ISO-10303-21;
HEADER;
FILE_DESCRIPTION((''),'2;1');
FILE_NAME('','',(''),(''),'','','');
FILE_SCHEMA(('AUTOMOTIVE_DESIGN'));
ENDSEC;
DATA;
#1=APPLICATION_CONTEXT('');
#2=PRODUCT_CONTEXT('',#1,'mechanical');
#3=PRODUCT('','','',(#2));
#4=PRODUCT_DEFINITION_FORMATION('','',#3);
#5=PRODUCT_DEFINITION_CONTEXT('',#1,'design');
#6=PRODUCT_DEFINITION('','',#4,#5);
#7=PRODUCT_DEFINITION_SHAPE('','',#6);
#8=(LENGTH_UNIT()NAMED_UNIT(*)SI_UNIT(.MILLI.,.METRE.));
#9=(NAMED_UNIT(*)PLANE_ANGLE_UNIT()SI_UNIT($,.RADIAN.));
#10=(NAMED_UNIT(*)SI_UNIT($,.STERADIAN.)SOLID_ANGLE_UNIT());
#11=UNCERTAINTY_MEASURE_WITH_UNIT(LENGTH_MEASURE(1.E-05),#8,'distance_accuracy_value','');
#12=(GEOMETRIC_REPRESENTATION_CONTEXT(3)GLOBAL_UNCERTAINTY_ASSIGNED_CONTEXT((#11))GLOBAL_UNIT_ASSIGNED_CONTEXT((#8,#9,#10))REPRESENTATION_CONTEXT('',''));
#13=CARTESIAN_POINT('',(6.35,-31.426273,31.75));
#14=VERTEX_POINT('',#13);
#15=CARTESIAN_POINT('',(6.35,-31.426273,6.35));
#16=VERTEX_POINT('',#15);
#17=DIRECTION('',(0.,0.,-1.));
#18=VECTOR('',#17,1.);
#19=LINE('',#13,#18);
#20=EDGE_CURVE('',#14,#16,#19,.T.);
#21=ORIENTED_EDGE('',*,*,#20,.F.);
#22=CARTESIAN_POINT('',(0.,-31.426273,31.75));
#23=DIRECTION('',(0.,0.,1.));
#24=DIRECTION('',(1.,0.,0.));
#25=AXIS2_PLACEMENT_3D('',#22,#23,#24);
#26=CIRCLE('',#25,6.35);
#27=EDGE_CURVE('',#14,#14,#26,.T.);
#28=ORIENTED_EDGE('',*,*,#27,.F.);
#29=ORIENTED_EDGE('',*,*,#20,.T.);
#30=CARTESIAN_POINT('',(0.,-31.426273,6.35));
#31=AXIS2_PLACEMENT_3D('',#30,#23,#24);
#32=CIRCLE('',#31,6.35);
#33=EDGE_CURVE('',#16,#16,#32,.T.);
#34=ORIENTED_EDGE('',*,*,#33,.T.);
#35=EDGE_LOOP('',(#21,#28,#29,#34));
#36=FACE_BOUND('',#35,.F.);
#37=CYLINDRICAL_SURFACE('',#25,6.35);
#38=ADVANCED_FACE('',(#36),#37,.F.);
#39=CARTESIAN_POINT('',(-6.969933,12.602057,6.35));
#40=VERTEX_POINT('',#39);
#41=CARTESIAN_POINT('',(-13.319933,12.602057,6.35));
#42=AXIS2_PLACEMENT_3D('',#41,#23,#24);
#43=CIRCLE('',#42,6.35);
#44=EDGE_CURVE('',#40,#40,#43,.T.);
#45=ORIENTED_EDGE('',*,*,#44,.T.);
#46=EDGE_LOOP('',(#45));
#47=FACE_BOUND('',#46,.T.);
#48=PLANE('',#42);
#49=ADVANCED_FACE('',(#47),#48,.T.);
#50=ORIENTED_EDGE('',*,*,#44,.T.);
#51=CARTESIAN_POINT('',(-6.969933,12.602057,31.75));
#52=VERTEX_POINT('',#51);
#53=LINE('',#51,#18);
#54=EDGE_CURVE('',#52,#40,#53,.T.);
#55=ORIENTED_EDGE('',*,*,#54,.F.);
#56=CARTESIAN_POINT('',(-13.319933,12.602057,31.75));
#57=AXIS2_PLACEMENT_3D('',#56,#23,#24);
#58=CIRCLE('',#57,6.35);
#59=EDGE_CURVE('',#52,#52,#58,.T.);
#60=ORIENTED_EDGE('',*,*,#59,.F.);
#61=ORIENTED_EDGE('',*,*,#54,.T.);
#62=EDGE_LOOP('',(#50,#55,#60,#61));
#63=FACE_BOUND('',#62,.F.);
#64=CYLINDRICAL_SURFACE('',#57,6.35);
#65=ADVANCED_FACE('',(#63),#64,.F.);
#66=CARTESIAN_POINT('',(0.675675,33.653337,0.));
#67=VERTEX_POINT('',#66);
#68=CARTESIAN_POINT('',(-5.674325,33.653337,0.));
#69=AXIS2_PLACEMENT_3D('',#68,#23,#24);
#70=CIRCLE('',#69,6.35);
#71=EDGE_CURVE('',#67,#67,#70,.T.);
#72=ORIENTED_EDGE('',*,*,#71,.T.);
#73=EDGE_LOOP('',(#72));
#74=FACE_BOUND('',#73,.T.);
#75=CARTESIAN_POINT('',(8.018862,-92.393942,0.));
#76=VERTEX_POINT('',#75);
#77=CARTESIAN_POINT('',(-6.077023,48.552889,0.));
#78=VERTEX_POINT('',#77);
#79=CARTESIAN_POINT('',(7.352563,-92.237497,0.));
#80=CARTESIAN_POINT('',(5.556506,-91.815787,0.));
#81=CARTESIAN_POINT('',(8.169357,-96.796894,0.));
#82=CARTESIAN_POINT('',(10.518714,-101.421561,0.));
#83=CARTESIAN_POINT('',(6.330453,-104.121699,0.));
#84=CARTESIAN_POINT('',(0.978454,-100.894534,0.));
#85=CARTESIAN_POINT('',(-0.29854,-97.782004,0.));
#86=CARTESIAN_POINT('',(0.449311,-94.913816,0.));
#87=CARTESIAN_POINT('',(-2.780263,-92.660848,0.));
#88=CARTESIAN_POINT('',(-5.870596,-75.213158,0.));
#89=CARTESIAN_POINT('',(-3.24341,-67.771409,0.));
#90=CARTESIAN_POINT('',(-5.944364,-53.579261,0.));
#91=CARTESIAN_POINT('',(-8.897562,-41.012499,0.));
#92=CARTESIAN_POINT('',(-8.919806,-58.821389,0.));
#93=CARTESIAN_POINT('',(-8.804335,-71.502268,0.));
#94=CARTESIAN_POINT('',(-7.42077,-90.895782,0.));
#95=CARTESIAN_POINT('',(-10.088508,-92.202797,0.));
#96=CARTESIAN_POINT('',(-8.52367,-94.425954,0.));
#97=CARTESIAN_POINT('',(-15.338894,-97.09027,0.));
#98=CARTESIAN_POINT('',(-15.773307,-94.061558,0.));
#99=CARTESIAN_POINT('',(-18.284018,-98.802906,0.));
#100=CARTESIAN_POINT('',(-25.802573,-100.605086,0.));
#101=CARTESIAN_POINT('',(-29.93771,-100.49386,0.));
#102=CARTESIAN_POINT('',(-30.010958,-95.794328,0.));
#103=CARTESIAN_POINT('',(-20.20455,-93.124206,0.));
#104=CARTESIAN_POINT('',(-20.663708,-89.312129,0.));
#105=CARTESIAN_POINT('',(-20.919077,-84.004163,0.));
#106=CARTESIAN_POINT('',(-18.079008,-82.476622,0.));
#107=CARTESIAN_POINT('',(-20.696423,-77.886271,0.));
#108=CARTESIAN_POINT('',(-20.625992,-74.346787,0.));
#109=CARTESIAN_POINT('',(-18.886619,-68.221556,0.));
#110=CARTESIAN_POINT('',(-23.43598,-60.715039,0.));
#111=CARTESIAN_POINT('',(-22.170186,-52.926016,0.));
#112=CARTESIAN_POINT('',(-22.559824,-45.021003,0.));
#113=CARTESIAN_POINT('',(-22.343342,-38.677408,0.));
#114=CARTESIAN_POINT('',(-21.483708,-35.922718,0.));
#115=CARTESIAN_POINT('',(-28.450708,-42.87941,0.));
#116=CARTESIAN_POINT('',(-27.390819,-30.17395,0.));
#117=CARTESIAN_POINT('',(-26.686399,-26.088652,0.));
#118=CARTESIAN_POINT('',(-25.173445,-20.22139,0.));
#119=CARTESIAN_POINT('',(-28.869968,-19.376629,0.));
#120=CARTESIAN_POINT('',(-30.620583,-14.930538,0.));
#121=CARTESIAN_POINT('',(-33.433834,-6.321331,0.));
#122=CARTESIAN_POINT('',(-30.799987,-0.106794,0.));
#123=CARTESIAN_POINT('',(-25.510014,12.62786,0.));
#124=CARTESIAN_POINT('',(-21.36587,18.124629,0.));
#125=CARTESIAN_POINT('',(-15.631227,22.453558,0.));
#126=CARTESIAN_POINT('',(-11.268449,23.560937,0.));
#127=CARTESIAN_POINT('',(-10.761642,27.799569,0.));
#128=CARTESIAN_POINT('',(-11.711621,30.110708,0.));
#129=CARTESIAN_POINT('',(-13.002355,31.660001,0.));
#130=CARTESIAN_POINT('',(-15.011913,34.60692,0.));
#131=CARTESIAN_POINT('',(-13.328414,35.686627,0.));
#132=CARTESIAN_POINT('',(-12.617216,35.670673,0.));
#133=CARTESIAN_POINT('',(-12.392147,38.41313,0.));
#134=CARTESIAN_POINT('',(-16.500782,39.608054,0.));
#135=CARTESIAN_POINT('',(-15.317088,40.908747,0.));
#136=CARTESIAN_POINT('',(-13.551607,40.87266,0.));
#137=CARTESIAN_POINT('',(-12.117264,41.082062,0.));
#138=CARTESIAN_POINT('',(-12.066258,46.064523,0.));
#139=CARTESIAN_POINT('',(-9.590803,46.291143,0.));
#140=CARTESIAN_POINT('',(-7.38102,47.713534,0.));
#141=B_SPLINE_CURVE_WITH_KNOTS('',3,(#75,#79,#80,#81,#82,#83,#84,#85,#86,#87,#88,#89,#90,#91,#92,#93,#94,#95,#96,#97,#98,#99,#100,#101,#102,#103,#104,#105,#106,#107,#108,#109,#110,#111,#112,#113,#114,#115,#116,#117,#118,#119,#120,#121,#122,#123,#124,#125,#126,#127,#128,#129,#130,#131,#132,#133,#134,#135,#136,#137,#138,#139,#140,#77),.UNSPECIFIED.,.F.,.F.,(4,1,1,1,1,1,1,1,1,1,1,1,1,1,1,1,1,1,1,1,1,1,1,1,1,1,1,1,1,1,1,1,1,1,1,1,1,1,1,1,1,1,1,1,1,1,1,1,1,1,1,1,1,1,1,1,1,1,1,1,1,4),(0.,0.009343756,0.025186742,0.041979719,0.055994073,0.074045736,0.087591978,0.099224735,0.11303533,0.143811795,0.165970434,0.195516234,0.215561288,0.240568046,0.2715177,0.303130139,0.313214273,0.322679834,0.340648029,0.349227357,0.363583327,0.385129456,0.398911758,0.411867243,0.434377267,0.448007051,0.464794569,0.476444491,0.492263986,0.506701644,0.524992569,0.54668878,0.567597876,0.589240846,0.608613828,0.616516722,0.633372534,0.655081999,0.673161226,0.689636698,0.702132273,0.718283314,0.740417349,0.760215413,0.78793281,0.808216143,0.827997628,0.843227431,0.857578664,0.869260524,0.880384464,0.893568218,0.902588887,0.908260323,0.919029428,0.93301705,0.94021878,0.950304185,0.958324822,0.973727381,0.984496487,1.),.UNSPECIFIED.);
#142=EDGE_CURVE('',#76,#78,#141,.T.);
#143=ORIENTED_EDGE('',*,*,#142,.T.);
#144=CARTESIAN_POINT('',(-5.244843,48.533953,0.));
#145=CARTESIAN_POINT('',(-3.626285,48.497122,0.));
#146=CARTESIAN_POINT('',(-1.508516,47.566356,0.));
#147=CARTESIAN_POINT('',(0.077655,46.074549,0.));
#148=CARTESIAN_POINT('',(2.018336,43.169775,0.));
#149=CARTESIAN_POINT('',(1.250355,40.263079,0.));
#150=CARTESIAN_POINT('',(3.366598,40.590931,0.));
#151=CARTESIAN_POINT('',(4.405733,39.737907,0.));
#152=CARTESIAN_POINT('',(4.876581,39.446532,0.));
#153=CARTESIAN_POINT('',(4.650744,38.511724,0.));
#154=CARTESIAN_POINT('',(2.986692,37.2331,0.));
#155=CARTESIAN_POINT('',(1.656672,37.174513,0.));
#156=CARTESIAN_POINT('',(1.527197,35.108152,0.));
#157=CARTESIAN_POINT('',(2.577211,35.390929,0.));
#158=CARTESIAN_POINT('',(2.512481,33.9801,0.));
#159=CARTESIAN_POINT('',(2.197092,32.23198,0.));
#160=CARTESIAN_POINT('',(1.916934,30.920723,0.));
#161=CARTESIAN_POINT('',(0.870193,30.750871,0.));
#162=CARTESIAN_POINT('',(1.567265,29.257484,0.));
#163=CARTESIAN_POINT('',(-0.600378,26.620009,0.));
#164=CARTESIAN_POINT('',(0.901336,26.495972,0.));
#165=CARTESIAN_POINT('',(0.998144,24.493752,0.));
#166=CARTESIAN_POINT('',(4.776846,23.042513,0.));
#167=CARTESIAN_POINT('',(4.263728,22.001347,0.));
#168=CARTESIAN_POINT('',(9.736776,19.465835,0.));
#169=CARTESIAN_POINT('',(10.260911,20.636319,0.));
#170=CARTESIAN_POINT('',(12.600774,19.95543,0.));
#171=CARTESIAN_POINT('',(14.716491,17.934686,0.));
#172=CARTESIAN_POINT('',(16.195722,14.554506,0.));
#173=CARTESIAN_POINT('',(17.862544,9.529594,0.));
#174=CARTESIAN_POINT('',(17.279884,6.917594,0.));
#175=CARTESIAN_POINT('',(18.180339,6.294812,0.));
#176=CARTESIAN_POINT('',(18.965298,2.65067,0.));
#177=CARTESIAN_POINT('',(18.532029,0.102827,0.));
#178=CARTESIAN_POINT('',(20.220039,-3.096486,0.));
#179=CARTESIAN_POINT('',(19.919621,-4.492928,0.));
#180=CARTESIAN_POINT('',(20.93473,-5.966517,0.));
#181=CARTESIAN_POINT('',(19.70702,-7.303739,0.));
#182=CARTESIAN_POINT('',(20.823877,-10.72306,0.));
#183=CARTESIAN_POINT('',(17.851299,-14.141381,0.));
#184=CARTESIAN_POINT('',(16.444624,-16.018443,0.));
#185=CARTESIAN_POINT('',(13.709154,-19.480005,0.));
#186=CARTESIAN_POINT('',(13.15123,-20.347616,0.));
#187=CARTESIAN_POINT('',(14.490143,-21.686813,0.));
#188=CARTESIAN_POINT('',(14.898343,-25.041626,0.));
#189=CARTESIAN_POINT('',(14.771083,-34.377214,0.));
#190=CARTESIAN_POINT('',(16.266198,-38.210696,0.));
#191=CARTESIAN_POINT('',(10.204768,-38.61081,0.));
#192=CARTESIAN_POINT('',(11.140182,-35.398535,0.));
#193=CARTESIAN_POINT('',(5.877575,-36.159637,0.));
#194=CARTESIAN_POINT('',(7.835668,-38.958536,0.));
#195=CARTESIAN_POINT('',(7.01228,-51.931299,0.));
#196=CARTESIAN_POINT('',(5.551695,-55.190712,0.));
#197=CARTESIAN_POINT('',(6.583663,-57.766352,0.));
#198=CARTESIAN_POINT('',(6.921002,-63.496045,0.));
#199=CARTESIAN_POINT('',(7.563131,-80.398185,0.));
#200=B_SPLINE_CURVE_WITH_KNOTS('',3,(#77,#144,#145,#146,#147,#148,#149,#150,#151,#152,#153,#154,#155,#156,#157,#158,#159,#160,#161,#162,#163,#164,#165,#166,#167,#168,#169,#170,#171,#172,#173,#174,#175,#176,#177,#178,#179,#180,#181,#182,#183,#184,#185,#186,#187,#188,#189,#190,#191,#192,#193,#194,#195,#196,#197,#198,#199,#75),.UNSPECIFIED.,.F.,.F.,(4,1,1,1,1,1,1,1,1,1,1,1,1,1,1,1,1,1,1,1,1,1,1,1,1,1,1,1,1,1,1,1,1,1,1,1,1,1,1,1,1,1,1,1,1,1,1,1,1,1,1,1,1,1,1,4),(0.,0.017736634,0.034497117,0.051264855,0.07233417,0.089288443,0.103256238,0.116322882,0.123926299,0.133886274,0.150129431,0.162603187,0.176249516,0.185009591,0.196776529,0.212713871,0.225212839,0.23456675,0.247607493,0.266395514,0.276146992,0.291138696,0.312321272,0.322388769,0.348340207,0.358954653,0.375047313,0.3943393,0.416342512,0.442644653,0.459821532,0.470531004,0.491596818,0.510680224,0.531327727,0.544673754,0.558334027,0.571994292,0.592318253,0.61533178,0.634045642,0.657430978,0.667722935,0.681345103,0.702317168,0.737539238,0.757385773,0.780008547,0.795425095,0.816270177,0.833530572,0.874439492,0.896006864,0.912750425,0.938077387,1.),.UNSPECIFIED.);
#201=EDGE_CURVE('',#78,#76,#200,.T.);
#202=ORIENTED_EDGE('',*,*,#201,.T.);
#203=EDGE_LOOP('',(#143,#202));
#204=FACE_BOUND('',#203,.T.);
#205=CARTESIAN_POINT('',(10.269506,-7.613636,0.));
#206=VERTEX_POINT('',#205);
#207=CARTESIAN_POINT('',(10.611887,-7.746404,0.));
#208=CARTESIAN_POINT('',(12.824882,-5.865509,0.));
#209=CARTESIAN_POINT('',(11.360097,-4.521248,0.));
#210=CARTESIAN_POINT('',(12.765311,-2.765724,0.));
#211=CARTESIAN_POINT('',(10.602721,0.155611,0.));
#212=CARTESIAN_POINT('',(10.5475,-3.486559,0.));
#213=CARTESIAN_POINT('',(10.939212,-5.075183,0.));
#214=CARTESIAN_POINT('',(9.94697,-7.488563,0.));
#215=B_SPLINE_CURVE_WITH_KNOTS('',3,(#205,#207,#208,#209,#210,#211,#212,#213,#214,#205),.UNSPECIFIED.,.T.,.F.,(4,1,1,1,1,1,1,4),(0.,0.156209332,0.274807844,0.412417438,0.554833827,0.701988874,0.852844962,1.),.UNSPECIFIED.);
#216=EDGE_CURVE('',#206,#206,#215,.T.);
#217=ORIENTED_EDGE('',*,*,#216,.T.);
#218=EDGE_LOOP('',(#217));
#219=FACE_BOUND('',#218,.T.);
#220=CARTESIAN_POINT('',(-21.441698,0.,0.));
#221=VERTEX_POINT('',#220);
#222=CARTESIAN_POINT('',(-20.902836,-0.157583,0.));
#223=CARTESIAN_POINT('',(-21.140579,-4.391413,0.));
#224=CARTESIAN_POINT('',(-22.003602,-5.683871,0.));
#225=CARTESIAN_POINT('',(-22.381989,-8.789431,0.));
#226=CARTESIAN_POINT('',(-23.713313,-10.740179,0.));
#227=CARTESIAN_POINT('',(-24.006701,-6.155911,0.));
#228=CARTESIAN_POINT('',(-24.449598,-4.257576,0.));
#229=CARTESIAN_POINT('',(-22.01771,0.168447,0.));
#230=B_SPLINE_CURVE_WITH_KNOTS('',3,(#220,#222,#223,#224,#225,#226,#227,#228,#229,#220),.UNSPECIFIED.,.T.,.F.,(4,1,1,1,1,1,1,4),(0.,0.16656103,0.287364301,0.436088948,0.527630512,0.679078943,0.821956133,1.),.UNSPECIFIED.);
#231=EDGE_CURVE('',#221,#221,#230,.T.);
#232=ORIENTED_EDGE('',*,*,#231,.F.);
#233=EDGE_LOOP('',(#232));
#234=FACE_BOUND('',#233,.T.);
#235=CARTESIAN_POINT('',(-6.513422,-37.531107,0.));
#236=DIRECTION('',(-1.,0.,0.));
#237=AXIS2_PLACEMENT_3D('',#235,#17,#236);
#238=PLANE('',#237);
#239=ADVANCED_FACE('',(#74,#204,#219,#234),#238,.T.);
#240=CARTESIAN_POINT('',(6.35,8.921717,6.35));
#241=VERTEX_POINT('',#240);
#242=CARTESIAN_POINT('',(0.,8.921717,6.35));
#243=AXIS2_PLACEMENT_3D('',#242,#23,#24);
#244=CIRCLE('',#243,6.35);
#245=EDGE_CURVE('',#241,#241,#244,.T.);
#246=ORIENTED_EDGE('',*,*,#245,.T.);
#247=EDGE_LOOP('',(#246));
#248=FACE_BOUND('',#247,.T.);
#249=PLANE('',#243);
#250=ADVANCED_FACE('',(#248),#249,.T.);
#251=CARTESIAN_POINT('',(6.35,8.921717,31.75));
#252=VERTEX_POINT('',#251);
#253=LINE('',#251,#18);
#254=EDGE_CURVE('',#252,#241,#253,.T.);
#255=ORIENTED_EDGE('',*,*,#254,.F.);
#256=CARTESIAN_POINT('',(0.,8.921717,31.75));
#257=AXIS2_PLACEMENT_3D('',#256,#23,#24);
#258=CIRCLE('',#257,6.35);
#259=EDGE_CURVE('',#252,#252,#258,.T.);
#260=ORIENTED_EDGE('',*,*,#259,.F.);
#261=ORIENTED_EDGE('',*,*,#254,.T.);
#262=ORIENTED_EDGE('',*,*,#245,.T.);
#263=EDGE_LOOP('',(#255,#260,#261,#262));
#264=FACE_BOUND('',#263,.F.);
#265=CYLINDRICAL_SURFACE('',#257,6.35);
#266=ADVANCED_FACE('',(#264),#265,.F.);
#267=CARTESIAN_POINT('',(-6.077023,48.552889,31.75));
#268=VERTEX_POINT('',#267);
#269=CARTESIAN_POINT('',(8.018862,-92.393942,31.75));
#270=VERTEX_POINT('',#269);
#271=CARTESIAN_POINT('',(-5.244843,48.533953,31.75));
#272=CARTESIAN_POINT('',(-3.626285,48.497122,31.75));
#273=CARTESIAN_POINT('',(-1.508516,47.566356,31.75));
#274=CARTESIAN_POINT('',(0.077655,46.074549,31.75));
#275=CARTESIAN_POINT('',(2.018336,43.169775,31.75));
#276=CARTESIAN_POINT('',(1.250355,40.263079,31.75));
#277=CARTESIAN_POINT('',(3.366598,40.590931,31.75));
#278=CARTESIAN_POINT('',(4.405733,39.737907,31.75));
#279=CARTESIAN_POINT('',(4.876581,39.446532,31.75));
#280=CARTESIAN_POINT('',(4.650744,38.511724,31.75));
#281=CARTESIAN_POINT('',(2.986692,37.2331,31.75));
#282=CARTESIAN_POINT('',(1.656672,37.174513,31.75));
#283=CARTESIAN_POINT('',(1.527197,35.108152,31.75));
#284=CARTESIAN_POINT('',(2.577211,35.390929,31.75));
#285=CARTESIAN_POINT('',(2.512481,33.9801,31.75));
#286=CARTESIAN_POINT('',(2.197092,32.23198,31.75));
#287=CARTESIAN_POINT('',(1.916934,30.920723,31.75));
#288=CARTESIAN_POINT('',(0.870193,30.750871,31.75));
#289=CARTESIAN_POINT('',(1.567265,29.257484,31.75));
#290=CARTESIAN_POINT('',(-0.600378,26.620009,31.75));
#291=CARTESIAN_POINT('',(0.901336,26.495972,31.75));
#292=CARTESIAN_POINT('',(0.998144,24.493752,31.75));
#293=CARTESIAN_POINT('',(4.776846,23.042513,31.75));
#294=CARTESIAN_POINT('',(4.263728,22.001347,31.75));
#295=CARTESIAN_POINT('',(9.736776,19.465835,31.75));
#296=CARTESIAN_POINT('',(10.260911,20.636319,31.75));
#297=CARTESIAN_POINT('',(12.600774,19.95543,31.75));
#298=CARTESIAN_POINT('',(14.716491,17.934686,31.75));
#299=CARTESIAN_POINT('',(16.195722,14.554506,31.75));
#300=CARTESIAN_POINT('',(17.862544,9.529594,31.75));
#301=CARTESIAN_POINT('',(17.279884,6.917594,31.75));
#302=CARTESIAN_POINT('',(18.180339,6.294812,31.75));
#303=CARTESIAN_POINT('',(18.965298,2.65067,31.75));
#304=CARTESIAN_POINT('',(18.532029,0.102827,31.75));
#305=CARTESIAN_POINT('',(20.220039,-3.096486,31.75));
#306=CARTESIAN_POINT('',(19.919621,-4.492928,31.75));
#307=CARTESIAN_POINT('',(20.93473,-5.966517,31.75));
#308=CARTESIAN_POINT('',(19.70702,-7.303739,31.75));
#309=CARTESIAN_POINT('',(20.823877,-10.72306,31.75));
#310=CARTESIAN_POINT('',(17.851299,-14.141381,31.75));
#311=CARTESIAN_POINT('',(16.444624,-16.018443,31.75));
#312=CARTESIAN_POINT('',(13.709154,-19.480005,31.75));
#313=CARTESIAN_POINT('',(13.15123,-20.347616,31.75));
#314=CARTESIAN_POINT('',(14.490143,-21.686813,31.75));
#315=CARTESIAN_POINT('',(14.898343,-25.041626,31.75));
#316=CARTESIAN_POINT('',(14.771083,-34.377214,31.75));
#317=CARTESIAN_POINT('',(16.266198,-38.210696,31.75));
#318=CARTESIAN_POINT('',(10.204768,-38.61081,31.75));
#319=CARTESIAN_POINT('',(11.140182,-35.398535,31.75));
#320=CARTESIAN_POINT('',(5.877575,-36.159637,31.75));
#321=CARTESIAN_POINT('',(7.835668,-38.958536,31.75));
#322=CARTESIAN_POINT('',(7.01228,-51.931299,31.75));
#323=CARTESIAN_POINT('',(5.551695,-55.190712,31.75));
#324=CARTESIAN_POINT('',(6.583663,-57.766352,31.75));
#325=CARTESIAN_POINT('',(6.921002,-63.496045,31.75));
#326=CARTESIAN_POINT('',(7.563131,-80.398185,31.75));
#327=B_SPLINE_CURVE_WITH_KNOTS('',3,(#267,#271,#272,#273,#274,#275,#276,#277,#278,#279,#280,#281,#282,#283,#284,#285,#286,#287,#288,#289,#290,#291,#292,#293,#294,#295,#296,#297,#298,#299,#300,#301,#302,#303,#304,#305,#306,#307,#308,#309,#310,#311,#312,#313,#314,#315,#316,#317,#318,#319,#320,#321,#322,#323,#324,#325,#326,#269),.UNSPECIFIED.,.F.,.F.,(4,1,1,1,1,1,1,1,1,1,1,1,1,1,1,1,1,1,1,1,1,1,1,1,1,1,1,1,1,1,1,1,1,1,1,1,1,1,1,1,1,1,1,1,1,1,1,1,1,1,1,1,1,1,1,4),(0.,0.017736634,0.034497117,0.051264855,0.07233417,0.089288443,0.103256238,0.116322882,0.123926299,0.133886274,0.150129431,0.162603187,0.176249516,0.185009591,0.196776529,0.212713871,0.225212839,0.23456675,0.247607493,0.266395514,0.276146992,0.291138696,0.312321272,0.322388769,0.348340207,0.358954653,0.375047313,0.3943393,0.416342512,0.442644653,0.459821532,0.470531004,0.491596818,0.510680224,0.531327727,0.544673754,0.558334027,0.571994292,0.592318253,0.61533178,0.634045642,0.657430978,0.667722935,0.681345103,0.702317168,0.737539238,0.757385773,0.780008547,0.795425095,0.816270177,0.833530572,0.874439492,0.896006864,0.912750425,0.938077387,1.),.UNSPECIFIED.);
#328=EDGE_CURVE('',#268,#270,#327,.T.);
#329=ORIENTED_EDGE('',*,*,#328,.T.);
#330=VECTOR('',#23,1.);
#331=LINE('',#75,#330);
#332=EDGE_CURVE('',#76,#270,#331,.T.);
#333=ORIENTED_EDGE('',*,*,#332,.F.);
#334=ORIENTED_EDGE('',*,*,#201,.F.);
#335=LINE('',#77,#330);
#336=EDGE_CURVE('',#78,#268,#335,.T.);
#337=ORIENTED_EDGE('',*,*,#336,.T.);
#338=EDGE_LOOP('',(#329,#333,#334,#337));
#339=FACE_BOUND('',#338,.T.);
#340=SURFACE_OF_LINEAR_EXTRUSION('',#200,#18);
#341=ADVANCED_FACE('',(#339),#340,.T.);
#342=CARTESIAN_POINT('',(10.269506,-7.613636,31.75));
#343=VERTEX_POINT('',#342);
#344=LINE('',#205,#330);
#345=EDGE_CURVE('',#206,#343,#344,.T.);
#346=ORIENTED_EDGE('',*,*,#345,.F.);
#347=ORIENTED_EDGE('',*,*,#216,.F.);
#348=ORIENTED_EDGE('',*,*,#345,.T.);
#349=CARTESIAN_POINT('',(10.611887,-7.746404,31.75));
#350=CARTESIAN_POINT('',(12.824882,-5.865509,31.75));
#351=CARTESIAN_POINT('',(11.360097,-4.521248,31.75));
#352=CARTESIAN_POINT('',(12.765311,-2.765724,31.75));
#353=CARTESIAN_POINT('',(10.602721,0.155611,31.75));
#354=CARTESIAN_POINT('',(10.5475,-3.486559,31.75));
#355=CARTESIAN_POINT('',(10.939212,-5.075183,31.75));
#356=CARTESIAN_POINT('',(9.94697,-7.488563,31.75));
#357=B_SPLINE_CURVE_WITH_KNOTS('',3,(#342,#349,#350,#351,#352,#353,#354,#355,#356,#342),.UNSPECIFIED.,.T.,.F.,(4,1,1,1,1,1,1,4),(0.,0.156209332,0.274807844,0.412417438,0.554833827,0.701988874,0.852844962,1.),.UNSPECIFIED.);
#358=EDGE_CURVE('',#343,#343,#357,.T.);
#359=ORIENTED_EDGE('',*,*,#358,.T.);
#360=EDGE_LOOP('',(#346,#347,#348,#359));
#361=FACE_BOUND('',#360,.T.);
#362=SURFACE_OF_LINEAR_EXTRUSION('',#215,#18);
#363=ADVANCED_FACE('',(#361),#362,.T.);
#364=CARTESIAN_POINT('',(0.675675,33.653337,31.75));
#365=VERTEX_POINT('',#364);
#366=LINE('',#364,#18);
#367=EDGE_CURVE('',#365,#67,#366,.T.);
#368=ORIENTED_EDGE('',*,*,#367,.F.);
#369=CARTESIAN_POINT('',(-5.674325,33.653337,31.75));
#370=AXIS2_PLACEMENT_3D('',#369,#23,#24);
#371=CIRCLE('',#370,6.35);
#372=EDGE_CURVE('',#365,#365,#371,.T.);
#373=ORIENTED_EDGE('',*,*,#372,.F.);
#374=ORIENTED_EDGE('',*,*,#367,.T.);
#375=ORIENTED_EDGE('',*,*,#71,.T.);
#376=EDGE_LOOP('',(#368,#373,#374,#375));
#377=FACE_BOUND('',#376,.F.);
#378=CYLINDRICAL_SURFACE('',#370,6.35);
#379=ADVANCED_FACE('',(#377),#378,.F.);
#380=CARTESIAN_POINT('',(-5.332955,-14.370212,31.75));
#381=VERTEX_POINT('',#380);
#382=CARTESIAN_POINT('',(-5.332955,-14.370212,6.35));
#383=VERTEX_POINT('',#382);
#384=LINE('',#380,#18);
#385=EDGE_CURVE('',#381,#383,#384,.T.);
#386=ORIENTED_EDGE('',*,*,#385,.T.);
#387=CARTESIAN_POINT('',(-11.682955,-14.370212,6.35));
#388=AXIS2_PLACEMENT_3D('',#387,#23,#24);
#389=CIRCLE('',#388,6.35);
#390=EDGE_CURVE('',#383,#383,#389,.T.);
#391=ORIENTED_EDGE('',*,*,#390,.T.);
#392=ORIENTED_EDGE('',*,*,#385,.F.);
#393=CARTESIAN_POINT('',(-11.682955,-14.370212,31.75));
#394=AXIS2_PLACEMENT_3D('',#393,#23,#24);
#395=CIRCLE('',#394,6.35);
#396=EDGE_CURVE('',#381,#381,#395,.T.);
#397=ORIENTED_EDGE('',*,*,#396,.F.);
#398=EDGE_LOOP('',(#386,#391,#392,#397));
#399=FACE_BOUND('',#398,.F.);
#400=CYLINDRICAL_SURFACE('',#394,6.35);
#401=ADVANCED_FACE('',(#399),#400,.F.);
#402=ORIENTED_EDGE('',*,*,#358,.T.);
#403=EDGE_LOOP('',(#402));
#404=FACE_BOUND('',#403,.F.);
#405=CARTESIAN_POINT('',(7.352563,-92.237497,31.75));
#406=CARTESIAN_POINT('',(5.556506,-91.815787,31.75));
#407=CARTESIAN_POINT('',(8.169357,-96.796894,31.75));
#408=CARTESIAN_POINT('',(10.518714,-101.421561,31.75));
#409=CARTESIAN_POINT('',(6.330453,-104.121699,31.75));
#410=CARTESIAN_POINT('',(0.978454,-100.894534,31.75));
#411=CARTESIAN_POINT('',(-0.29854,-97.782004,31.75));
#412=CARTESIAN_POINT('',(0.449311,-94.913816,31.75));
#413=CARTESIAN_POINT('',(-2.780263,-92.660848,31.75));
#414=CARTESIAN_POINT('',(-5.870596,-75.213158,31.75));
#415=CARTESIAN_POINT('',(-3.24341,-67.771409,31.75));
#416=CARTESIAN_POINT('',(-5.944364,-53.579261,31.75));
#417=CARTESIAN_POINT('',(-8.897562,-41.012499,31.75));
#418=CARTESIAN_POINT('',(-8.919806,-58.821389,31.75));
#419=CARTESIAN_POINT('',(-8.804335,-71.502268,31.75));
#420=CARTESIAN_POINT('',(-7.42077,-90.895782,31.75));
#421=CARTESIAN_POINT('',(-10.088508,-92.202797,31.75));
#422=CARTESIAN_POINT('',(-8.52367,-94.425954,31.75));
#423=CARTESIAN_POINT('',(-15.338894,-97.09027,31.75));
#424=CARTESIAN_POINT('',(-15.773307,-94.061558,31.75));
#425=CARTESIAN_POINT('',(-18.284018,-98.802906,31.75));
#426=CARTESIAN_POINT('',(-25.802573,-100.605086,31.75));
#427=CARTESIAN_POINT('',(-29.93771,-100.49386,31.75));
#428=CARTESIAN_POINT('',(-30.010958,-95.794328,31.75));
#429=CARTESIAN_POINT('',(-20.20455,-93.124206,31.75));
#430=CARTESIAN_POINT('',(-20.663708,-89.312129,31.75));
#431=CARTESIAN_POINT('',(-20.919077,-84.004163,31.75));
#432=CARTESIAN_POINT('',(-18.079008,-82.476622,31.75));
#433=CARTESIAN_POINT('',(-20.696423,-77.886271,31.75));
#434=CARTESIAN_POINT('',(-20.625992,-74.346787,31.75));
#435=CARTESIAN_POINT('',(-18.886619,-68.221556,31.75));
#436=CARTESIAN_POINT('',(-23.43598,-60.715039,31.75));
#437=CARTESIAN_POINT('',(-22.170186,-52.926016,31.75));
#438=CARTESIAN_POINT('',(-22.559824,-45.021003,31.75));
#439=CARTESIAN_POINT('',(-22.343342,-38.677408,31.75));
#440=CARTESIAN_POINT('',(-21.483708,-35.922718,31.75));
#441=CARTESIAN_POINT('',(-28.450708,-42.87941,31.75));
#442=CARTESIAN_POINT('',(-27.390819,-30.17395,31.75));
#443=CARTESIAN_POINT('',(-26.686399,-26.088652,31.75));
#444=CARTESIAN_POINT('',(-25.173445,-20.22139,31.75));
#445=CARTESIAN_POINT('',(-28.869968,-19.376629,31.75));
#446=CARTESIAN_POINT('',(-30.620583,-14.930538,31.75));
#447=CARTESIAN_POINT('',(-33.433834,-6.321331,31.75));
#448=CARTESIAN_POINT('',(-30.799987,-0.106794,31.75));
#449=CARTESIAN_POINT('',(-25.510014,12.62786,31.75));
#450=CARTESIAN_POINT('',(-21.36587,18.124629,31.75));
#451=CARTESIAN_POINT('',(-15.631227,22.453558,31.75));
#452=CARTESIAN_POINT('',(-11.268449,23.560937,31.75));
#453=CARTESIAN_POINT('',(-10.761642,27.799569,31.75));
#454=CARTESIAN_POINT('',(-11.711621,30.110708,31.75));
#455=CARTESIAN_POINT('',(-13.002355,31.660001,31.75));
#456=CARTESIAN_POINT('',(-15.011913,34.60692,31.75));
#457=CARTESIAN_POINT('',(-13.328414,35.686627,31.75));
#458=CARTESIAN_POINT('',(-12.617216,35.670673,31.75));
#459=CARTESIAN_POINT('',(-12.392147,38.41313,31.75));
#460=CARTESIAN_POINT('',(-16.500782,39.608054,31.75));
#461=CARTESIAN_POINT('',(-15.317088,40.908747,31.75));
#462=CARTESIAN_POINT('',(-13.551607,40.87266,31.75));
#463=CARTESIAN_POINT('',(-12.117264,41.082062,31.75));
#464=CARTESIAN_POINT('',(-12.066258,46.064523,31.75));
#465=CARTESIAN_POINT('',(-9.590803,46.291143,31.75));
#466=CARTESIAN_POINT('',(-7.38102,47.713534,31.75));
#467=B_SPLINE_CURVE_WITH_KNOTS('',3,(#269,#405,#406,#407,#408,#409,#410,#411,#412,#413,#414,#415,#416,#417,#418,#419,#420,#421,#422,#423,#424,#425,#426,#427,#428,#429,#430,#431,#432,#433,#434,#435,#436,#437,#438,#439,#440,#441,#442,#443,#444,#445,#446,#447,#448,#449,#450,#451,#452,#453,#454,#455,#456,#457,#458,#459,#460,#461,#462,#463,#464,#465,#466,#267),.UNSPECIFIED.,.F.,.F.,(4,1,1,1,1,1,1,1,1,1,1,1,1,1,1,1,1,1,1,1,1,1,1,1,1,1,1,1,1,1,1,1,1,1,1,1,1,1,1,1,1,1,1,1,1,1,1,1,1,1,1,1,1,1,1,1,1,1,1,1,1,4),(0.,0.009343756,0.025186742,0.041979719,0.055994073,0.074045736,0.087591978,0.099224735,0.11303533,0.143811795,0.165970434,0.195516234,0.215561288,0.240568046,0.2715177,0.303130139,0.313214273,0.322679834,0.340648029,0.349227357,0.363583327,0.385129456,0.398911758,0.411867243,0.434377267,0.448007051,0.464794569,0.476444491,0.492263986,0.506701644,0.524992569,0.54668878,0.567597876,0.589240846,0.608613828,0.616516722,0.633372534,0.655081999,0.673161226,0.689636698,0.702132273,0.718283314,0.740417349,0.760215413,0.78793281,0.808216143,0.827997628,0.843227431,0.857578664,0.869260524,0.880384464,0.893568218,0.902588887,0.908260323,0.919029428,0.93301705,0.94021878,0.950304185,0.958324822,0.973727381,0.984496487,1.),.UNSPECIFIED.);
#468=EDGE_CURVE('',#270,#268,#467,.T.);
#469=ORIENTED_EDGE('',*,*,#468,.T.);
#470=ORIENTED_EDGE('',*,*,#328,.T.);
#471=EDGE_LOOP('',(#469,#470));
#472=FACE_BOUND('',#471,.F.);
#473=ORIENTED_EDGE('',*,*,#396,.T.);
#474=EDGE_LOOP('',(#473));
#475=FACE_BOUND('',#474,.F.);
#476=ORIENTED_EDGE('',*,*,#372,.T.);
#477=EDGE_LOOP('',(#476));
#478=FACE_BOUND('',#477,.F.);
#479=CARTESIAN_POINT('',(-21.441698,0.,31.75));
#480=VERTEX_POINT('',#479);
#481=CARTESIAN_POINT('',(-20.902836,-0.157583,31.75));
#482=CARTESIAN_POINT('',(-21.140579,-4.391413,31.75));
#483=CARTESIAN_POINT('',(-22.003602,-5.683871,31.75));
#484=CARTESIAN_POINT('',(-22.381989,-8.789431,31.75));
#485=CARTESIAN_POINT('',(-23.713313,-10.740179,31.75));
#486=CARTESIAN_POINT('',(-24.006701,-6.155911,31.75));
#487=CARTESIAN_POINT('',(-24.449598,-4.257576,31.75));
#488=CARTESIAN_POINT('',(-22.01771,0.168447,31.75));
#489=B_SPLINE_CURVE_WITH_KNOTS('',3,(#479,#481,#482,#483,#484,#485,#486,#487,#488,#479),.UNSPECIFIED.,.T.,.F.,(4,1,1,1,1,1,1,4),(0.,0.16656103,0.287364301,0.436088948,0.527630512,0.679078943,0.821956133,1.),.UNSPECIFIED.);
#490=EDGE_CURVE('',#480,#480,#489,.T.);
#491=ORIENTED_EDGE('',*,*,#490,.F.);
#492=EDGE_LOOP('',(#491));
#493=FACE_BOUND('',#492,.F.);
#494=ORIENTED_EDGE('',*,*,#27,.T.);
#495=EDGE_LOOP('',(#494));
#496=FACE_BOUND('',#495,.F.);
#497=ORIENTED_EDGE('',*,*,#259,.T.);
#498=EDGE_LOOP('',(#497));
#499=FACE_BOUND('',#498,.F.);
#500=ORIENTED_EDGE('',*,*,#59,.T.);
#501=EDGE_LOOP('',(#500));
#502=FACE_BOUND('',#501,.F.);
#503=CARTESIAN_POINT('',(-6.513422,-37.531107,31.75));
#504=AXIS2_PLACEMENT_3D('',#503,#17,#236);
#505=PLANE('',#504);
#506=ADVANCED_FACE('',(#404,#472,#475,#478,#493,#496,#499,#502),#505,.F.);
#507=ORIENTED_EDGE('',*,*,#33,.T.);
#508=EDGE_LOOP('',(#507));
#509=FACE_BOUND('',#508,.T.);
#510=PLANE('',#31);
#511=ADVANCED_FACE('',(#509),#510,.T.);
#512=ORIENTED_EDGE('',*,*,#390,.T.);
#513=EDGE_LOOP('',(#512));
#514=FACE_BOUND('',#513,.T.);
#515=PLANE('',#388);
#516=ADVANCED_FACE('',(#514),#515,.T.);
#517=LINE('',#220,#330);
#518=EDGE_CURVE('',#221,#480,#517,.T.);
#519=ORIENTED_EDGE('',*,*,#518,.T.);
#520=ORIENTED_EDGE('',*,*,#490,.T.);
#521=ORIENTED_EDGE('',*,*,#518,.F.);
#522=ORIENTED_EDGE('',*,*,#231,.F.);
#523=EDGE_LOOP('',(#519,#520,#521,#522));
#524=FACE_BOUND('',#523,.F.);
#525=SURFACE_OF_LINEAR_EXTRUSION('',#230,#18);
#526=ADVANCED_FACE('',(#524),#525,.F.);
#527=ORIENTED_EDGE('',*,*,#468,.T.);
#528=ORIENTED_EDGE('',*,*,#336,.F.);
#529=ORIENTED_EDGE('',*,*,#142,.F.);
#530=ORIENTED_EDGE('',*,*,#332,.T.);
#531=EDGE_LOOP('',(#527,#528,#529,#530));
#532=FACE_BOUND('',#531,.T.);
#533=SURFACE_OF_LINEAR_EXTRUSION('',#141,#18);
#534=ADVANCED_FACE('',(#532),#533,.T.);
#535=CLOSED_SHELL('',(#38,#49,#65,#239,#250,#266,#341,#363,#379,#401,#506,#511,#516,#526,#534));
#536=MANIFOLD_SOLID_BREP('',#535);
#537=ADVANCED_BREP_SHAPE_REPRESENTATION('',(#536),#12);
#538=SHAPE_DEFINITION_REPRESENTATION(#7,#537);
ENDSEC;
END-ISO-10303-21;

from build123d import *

# Parameters (mm, degrees)
F1_DEPTH = 31.75
F2_R     = 6.35
F4_DEPTH = 25.4
F3_R     = 6.3434261754
F3_R_2   = 6.35
F5_DEPTH = 50.8


with BuildPart() as f1:
    # F0 (on Top) → F1 (new body)
    with BuildSketch(Plane.XY):
        with BuildLine():
            add(Edge.make_bspline(
                [(-6.0770227574, 48.5528893769), (-5.2448434322, 48.5339526977), (-3.6262845245, 48.4971215366), (-1.5085157175, 47.5663555593), (0.0776548485, 46.0745490862), (2.0183363493, 43.1697753074), (1.2503548154, 40.2630786716), (3.3665980784, 40.5909310432), (4.4057332647, 39.7379066375), (4.8765806525, 39.4465317906), (4.6507442415, 38.5117242007), (2.9866921159, 37.2331001672), (1.6566720994, 37.1745125445), (1.52719711, 35.1081520383), (2.5772112913, 35.3909287862), (2.5124811946, 33.9800997621), (2.1970923467, 32.2319796797), (1.9169338481, 30.9207228116), (0.8701930256, 30.7508711667), (1.5672649286, 29.2574837521), (-0.6003783195, 26.6200093982), (0.9013360706, 26.4959720344), (0.998143896, 24.4937520403), (4.7768464267, 23.0425133719), (4.2637282433, 22.0013467716), (9.7367761748, 19.4658346119), (10.2609108351, 20.6363186234), (12.6007739666, 19.9554297361), (14.7164913259, 17.934686278), (16.1957223737, 14.5545058967), (17.8625444907, 9.5295944713), (17.2798837787, 6.9175944711), (18.180339089, 6.2948122673), (18.9652980313, 2.6506699045), (18.5320289828, 0.1028269074), (20.2200387297, -3.0964856144), (19.9196211867, -4.4929275114), (20.9347297089, -5.9665168784), (19.707019857, -7.3037391014), (20.8238765272, -10.723059916), (17.8512990349, -14.1413811163), (16.4446242334, -16.0184432164), (13.70915435, -19.4800045492), (13.151230346, -20.347616173), (14.4901434235, -21.6868129729), (14.8983431776, -25.0416263671), (14.7710828466, -34.3772140088), (16.2661983181, -38.2106961011), (10.2047683321, -38.610809888), (11.1401820554, -35.3985345452), (5.8775746432, -36.1596373298), (7.8356677084, -38.9585356552), (7.0122804392, -51.9312994068), (5.5516947311, -55.1907117496), (6.5836632247, -57.7663520183), (6.9210018228, -63.4960453008), (7.5631313989, -80.3981854333), (8.0188624561, -92.3939421773)],
                knots=[0, 0, 0, 0, 0.0177366341, 0.0344971165, 0.0512648546, 0.0723341698, 0.0892884434, 0.1032562382, 0.1163228821, 0.1239262991, 0.1338862738, 0.1501294307, 0.1626031874, 0.1762495159, 0.1850095907, 0.1967765288, 0.2127138708, 0.2252128394, 0.2345667499, 0.2476074931, 0.2663955135, 0.276146992, 0.2911386956, 0.3123212716, 0.322388769, 0.3483402074, 0.358954653, 0.3750473129, 0.3943393005, 0.4163425116, 0.442644653, 0.4598215323, 0.4705310038, 0.4915968183, 0.5106802236, 0.5313277274, 0.5446737542, 0.558334027, 0.5719942915, 0.5923182525, 0.6153317796, 0.6340456416, 0.6574309784, 0.6677229355, 0.6813451029, 0.7023171681, 0.7375392383, 0.757385773, 0.780008547, 0.7954250946, 0.8162701773, 0.8335305717, 0.8744394924, 0.8960068635, 0.9127504252, 0.9380773874, 1, 1, 1, 1], degree=3))
            add(Edge.make_bspline(
                [(8.0188624561, -92.3939421773), (7.3525628488, -92.2374965839), (5.5565060488, -91.8157866374), (8.1693568904, -96.7968942632), (10.5187144543, -101.4215606854), (6.330453403, -104.1216987374), (0.9784538516, -100.8945338018), (-0.2985404571, -97.7820036817), (0.4493112223, -94.913815573), (-2.7802627543, -92.6608484676), (-5.8705961695, -75.2131578127), (-3.2434103571, -67.7714089048), (-5.9443640166, -53.5792607742), (-8.8975623348, -41.0124993215), (-8.9198055783, -58.8213889541), (-8.8043353731, -71.5022675232), (-7.4207704966, -90.8957815153), (-10.0885082628, -92.2027968613), (-8.5236700408, -94.4259542692), (-15.3388936996, -97.090269953), (-15.7733069608, -94.0615581007), (-18.2840175087, -98.8029061599), (-25.8025726242, -100.6050859396), (-29.9377101351, -100.4938597741), (-30.0109576481, -95.7943282875), (-20.2045501262, -93.1242056107), (-20.6637082184, -89.3121287553), (-20.9190768263, -84.0041631308), (-18.0790081438, -82.4766221443), (-20.6964231239, -77.8862711654), (-20.6259919359, -74.3467871069), (-18.8866192094, -68.2215561062), (-23.4359799056, -60.7150385423), (-22.1701858434, -52.9260160113), (-22.5598242594, -45.0210029676), (-22.3433418136, -38.6774079963), (-21.48370812, -35.9227177958), (-28.4507084499, -42.8794097295), (-27.3908187074, -30.1739500714), (-26.6863990863, -26.0886516571), (-25.1734453855, -20.2213903404), (-28.869968185, -19.3766286748), (-30.620583353, -14.930537751), (-33.433833834, -6.3213308824), (-30.7999867944, -0.1067944522), (-25.5100140415, 12.6278604098), (-21.3658703138, 18.1246287573), (-15.6312267865, 22.4535579279), (-11.2684488647, 23.5609367388), (-10.7616415394, 27.7995692246), (-11.7116213986, 30.1107078168), (-13.0023554799, 31.6600010713), (-15.0119125901, 34.6069195754), (-13.3284144304, 35.6866274709), (-12.6172155972, 35.6706729381), (-12.3921467424, 38.4131302776), (-16.500781538, 39.6080537842), (-15.3170881281, 40.9087469173), (-13.5516071266, 40.8726603783), (-12.1172643494, 41.0820619866), (-12.0662576098, 46.0645227776), (-9.5908032617, 46.2911425979), (-7.3810195256, 47.7135340197), (-6.0770227574, 48.5528893769)],
                knots=[0, 0, 0, 0, 0.0093437558, 0.0251867417, 0.041979719, 0.0559940734, 0.0740457363, 0.0875919783, 0.099224735, 0.1130353302, 0.143811795, 0.165970434, 0.1955162343, 0.2155612883, 0.2405680457, 0.2715177002, 0.303130139, 0.3132142735, 0.3226798343, 0.3406480287, 0.3492273567, 0.3635833271, 0.3851294561, 0.3989117584, 0.4118672428, 0.434377267, 0.4480070507, 0.4647945694, 0.4764444908, 0.4922639855, 0.5067016437, 0.5249925694, 0.5466887795, 0.5675978758, 0.5892408463, 0.6086138283, 0.616516722, 0.633372534, 0.6550819992, 0.6731612264, 0.689636698, 0.7021322735, 0.7182833144, 0.7404173488, 0.7602154135, 0.7879328102, 0.8082161427, 0.8279976281, 0.8432274313, 0.8575786644, 0.8692605237, 0.8803844638, 0.8935682182, 0.9025888874, 0.9082603235, 0.9190294281, 0.9330170502, 0.94021878, 0.9503041855, 0.9583248221, 0.9737273814, 0.9844964875, 1, 1, 1, 1], degree=3))
        make_face()
        with BuildLine():
            add(Edge.make_bspline(
                [(-21.4416980743, 0), (-20.9028361119, -0.1575830131), (-21.1405787381, -4.3914131857), (-22.0036017986, -5.683870879), (-22.3819892715, -8.7894308529), (-23.7133130229, -10.7401786435), (-24.0067009238, -6.1559110545), (-24.4495982056, -4.2575760991), (-22.0177095664, 0.1684468989), (-21.4416980743, 0)],
                knots=[0, 0, 0, 0, 0.16656103, 0.2873643008, 0.4360889476, 0.5276305118, 0.6790789434, 0.8219561333, 1, 1, 1, 1], degree=3))
        make_face(mode=Mode.SUBTRACT)
        with BuildLine():
            add(Edge.make_bspline(
                [(10.2695059031, -7.613635622), (10.6118867949, -7.746403676), (12.8248823998, -5.8655089514), (11.3600974737, -4.5212482694), (12.7653107328, -2.7657235567), (10.602721399, 0.155611121), (10.5474999341, -3.4865585065), (10.9392115469, -5.0751826963), (9.9469702862, -7.488563145), (10.2695059031, -7.613635622)],
                knots=[0, 0, 0, 0, 0.1562093316, 0.2748078439, 0.4124174383, 0.5548338266, 0.7019888738, 0.852844962, 1, 1, 1, 1], degree=3))
        make_face(mode=Mode.SUBTRACT)
    extrude(amount=F1_DEPTH)

    # F2 (on face) → F4 (cut)
    with BuildSketch(Plane.XY.offset(31.75)):
        with Locations((0, 8.9217170022)):
            Circle(F2_R)
        with Locations((-11.6829547499, -14.3702115331)):
            Circle(F2_R)
        with Locations((-13.3199328557, 12.602057308)):
            Circle(F2_R)
        with Locations((0, -31.4262732863)):
            Circle(F2_R)
    extrude(amount=-F4_DEPTH, mode=Mode.SUBTRACT)

    # F3 (on face) → F5 (cut)
    with BuildSketch(Plane.XY.offset(31.75)):
        with Locations((-121.2753200523, 74.150391832)):
            Circle(F3_R)
        with Locations((-5.6743252332, 33.6533372375)):
            Circle(F3_R_2)
    extrude(amount=-F5_DEPTH, mode=Mode.SUBTRACT)


solid = f1.part
